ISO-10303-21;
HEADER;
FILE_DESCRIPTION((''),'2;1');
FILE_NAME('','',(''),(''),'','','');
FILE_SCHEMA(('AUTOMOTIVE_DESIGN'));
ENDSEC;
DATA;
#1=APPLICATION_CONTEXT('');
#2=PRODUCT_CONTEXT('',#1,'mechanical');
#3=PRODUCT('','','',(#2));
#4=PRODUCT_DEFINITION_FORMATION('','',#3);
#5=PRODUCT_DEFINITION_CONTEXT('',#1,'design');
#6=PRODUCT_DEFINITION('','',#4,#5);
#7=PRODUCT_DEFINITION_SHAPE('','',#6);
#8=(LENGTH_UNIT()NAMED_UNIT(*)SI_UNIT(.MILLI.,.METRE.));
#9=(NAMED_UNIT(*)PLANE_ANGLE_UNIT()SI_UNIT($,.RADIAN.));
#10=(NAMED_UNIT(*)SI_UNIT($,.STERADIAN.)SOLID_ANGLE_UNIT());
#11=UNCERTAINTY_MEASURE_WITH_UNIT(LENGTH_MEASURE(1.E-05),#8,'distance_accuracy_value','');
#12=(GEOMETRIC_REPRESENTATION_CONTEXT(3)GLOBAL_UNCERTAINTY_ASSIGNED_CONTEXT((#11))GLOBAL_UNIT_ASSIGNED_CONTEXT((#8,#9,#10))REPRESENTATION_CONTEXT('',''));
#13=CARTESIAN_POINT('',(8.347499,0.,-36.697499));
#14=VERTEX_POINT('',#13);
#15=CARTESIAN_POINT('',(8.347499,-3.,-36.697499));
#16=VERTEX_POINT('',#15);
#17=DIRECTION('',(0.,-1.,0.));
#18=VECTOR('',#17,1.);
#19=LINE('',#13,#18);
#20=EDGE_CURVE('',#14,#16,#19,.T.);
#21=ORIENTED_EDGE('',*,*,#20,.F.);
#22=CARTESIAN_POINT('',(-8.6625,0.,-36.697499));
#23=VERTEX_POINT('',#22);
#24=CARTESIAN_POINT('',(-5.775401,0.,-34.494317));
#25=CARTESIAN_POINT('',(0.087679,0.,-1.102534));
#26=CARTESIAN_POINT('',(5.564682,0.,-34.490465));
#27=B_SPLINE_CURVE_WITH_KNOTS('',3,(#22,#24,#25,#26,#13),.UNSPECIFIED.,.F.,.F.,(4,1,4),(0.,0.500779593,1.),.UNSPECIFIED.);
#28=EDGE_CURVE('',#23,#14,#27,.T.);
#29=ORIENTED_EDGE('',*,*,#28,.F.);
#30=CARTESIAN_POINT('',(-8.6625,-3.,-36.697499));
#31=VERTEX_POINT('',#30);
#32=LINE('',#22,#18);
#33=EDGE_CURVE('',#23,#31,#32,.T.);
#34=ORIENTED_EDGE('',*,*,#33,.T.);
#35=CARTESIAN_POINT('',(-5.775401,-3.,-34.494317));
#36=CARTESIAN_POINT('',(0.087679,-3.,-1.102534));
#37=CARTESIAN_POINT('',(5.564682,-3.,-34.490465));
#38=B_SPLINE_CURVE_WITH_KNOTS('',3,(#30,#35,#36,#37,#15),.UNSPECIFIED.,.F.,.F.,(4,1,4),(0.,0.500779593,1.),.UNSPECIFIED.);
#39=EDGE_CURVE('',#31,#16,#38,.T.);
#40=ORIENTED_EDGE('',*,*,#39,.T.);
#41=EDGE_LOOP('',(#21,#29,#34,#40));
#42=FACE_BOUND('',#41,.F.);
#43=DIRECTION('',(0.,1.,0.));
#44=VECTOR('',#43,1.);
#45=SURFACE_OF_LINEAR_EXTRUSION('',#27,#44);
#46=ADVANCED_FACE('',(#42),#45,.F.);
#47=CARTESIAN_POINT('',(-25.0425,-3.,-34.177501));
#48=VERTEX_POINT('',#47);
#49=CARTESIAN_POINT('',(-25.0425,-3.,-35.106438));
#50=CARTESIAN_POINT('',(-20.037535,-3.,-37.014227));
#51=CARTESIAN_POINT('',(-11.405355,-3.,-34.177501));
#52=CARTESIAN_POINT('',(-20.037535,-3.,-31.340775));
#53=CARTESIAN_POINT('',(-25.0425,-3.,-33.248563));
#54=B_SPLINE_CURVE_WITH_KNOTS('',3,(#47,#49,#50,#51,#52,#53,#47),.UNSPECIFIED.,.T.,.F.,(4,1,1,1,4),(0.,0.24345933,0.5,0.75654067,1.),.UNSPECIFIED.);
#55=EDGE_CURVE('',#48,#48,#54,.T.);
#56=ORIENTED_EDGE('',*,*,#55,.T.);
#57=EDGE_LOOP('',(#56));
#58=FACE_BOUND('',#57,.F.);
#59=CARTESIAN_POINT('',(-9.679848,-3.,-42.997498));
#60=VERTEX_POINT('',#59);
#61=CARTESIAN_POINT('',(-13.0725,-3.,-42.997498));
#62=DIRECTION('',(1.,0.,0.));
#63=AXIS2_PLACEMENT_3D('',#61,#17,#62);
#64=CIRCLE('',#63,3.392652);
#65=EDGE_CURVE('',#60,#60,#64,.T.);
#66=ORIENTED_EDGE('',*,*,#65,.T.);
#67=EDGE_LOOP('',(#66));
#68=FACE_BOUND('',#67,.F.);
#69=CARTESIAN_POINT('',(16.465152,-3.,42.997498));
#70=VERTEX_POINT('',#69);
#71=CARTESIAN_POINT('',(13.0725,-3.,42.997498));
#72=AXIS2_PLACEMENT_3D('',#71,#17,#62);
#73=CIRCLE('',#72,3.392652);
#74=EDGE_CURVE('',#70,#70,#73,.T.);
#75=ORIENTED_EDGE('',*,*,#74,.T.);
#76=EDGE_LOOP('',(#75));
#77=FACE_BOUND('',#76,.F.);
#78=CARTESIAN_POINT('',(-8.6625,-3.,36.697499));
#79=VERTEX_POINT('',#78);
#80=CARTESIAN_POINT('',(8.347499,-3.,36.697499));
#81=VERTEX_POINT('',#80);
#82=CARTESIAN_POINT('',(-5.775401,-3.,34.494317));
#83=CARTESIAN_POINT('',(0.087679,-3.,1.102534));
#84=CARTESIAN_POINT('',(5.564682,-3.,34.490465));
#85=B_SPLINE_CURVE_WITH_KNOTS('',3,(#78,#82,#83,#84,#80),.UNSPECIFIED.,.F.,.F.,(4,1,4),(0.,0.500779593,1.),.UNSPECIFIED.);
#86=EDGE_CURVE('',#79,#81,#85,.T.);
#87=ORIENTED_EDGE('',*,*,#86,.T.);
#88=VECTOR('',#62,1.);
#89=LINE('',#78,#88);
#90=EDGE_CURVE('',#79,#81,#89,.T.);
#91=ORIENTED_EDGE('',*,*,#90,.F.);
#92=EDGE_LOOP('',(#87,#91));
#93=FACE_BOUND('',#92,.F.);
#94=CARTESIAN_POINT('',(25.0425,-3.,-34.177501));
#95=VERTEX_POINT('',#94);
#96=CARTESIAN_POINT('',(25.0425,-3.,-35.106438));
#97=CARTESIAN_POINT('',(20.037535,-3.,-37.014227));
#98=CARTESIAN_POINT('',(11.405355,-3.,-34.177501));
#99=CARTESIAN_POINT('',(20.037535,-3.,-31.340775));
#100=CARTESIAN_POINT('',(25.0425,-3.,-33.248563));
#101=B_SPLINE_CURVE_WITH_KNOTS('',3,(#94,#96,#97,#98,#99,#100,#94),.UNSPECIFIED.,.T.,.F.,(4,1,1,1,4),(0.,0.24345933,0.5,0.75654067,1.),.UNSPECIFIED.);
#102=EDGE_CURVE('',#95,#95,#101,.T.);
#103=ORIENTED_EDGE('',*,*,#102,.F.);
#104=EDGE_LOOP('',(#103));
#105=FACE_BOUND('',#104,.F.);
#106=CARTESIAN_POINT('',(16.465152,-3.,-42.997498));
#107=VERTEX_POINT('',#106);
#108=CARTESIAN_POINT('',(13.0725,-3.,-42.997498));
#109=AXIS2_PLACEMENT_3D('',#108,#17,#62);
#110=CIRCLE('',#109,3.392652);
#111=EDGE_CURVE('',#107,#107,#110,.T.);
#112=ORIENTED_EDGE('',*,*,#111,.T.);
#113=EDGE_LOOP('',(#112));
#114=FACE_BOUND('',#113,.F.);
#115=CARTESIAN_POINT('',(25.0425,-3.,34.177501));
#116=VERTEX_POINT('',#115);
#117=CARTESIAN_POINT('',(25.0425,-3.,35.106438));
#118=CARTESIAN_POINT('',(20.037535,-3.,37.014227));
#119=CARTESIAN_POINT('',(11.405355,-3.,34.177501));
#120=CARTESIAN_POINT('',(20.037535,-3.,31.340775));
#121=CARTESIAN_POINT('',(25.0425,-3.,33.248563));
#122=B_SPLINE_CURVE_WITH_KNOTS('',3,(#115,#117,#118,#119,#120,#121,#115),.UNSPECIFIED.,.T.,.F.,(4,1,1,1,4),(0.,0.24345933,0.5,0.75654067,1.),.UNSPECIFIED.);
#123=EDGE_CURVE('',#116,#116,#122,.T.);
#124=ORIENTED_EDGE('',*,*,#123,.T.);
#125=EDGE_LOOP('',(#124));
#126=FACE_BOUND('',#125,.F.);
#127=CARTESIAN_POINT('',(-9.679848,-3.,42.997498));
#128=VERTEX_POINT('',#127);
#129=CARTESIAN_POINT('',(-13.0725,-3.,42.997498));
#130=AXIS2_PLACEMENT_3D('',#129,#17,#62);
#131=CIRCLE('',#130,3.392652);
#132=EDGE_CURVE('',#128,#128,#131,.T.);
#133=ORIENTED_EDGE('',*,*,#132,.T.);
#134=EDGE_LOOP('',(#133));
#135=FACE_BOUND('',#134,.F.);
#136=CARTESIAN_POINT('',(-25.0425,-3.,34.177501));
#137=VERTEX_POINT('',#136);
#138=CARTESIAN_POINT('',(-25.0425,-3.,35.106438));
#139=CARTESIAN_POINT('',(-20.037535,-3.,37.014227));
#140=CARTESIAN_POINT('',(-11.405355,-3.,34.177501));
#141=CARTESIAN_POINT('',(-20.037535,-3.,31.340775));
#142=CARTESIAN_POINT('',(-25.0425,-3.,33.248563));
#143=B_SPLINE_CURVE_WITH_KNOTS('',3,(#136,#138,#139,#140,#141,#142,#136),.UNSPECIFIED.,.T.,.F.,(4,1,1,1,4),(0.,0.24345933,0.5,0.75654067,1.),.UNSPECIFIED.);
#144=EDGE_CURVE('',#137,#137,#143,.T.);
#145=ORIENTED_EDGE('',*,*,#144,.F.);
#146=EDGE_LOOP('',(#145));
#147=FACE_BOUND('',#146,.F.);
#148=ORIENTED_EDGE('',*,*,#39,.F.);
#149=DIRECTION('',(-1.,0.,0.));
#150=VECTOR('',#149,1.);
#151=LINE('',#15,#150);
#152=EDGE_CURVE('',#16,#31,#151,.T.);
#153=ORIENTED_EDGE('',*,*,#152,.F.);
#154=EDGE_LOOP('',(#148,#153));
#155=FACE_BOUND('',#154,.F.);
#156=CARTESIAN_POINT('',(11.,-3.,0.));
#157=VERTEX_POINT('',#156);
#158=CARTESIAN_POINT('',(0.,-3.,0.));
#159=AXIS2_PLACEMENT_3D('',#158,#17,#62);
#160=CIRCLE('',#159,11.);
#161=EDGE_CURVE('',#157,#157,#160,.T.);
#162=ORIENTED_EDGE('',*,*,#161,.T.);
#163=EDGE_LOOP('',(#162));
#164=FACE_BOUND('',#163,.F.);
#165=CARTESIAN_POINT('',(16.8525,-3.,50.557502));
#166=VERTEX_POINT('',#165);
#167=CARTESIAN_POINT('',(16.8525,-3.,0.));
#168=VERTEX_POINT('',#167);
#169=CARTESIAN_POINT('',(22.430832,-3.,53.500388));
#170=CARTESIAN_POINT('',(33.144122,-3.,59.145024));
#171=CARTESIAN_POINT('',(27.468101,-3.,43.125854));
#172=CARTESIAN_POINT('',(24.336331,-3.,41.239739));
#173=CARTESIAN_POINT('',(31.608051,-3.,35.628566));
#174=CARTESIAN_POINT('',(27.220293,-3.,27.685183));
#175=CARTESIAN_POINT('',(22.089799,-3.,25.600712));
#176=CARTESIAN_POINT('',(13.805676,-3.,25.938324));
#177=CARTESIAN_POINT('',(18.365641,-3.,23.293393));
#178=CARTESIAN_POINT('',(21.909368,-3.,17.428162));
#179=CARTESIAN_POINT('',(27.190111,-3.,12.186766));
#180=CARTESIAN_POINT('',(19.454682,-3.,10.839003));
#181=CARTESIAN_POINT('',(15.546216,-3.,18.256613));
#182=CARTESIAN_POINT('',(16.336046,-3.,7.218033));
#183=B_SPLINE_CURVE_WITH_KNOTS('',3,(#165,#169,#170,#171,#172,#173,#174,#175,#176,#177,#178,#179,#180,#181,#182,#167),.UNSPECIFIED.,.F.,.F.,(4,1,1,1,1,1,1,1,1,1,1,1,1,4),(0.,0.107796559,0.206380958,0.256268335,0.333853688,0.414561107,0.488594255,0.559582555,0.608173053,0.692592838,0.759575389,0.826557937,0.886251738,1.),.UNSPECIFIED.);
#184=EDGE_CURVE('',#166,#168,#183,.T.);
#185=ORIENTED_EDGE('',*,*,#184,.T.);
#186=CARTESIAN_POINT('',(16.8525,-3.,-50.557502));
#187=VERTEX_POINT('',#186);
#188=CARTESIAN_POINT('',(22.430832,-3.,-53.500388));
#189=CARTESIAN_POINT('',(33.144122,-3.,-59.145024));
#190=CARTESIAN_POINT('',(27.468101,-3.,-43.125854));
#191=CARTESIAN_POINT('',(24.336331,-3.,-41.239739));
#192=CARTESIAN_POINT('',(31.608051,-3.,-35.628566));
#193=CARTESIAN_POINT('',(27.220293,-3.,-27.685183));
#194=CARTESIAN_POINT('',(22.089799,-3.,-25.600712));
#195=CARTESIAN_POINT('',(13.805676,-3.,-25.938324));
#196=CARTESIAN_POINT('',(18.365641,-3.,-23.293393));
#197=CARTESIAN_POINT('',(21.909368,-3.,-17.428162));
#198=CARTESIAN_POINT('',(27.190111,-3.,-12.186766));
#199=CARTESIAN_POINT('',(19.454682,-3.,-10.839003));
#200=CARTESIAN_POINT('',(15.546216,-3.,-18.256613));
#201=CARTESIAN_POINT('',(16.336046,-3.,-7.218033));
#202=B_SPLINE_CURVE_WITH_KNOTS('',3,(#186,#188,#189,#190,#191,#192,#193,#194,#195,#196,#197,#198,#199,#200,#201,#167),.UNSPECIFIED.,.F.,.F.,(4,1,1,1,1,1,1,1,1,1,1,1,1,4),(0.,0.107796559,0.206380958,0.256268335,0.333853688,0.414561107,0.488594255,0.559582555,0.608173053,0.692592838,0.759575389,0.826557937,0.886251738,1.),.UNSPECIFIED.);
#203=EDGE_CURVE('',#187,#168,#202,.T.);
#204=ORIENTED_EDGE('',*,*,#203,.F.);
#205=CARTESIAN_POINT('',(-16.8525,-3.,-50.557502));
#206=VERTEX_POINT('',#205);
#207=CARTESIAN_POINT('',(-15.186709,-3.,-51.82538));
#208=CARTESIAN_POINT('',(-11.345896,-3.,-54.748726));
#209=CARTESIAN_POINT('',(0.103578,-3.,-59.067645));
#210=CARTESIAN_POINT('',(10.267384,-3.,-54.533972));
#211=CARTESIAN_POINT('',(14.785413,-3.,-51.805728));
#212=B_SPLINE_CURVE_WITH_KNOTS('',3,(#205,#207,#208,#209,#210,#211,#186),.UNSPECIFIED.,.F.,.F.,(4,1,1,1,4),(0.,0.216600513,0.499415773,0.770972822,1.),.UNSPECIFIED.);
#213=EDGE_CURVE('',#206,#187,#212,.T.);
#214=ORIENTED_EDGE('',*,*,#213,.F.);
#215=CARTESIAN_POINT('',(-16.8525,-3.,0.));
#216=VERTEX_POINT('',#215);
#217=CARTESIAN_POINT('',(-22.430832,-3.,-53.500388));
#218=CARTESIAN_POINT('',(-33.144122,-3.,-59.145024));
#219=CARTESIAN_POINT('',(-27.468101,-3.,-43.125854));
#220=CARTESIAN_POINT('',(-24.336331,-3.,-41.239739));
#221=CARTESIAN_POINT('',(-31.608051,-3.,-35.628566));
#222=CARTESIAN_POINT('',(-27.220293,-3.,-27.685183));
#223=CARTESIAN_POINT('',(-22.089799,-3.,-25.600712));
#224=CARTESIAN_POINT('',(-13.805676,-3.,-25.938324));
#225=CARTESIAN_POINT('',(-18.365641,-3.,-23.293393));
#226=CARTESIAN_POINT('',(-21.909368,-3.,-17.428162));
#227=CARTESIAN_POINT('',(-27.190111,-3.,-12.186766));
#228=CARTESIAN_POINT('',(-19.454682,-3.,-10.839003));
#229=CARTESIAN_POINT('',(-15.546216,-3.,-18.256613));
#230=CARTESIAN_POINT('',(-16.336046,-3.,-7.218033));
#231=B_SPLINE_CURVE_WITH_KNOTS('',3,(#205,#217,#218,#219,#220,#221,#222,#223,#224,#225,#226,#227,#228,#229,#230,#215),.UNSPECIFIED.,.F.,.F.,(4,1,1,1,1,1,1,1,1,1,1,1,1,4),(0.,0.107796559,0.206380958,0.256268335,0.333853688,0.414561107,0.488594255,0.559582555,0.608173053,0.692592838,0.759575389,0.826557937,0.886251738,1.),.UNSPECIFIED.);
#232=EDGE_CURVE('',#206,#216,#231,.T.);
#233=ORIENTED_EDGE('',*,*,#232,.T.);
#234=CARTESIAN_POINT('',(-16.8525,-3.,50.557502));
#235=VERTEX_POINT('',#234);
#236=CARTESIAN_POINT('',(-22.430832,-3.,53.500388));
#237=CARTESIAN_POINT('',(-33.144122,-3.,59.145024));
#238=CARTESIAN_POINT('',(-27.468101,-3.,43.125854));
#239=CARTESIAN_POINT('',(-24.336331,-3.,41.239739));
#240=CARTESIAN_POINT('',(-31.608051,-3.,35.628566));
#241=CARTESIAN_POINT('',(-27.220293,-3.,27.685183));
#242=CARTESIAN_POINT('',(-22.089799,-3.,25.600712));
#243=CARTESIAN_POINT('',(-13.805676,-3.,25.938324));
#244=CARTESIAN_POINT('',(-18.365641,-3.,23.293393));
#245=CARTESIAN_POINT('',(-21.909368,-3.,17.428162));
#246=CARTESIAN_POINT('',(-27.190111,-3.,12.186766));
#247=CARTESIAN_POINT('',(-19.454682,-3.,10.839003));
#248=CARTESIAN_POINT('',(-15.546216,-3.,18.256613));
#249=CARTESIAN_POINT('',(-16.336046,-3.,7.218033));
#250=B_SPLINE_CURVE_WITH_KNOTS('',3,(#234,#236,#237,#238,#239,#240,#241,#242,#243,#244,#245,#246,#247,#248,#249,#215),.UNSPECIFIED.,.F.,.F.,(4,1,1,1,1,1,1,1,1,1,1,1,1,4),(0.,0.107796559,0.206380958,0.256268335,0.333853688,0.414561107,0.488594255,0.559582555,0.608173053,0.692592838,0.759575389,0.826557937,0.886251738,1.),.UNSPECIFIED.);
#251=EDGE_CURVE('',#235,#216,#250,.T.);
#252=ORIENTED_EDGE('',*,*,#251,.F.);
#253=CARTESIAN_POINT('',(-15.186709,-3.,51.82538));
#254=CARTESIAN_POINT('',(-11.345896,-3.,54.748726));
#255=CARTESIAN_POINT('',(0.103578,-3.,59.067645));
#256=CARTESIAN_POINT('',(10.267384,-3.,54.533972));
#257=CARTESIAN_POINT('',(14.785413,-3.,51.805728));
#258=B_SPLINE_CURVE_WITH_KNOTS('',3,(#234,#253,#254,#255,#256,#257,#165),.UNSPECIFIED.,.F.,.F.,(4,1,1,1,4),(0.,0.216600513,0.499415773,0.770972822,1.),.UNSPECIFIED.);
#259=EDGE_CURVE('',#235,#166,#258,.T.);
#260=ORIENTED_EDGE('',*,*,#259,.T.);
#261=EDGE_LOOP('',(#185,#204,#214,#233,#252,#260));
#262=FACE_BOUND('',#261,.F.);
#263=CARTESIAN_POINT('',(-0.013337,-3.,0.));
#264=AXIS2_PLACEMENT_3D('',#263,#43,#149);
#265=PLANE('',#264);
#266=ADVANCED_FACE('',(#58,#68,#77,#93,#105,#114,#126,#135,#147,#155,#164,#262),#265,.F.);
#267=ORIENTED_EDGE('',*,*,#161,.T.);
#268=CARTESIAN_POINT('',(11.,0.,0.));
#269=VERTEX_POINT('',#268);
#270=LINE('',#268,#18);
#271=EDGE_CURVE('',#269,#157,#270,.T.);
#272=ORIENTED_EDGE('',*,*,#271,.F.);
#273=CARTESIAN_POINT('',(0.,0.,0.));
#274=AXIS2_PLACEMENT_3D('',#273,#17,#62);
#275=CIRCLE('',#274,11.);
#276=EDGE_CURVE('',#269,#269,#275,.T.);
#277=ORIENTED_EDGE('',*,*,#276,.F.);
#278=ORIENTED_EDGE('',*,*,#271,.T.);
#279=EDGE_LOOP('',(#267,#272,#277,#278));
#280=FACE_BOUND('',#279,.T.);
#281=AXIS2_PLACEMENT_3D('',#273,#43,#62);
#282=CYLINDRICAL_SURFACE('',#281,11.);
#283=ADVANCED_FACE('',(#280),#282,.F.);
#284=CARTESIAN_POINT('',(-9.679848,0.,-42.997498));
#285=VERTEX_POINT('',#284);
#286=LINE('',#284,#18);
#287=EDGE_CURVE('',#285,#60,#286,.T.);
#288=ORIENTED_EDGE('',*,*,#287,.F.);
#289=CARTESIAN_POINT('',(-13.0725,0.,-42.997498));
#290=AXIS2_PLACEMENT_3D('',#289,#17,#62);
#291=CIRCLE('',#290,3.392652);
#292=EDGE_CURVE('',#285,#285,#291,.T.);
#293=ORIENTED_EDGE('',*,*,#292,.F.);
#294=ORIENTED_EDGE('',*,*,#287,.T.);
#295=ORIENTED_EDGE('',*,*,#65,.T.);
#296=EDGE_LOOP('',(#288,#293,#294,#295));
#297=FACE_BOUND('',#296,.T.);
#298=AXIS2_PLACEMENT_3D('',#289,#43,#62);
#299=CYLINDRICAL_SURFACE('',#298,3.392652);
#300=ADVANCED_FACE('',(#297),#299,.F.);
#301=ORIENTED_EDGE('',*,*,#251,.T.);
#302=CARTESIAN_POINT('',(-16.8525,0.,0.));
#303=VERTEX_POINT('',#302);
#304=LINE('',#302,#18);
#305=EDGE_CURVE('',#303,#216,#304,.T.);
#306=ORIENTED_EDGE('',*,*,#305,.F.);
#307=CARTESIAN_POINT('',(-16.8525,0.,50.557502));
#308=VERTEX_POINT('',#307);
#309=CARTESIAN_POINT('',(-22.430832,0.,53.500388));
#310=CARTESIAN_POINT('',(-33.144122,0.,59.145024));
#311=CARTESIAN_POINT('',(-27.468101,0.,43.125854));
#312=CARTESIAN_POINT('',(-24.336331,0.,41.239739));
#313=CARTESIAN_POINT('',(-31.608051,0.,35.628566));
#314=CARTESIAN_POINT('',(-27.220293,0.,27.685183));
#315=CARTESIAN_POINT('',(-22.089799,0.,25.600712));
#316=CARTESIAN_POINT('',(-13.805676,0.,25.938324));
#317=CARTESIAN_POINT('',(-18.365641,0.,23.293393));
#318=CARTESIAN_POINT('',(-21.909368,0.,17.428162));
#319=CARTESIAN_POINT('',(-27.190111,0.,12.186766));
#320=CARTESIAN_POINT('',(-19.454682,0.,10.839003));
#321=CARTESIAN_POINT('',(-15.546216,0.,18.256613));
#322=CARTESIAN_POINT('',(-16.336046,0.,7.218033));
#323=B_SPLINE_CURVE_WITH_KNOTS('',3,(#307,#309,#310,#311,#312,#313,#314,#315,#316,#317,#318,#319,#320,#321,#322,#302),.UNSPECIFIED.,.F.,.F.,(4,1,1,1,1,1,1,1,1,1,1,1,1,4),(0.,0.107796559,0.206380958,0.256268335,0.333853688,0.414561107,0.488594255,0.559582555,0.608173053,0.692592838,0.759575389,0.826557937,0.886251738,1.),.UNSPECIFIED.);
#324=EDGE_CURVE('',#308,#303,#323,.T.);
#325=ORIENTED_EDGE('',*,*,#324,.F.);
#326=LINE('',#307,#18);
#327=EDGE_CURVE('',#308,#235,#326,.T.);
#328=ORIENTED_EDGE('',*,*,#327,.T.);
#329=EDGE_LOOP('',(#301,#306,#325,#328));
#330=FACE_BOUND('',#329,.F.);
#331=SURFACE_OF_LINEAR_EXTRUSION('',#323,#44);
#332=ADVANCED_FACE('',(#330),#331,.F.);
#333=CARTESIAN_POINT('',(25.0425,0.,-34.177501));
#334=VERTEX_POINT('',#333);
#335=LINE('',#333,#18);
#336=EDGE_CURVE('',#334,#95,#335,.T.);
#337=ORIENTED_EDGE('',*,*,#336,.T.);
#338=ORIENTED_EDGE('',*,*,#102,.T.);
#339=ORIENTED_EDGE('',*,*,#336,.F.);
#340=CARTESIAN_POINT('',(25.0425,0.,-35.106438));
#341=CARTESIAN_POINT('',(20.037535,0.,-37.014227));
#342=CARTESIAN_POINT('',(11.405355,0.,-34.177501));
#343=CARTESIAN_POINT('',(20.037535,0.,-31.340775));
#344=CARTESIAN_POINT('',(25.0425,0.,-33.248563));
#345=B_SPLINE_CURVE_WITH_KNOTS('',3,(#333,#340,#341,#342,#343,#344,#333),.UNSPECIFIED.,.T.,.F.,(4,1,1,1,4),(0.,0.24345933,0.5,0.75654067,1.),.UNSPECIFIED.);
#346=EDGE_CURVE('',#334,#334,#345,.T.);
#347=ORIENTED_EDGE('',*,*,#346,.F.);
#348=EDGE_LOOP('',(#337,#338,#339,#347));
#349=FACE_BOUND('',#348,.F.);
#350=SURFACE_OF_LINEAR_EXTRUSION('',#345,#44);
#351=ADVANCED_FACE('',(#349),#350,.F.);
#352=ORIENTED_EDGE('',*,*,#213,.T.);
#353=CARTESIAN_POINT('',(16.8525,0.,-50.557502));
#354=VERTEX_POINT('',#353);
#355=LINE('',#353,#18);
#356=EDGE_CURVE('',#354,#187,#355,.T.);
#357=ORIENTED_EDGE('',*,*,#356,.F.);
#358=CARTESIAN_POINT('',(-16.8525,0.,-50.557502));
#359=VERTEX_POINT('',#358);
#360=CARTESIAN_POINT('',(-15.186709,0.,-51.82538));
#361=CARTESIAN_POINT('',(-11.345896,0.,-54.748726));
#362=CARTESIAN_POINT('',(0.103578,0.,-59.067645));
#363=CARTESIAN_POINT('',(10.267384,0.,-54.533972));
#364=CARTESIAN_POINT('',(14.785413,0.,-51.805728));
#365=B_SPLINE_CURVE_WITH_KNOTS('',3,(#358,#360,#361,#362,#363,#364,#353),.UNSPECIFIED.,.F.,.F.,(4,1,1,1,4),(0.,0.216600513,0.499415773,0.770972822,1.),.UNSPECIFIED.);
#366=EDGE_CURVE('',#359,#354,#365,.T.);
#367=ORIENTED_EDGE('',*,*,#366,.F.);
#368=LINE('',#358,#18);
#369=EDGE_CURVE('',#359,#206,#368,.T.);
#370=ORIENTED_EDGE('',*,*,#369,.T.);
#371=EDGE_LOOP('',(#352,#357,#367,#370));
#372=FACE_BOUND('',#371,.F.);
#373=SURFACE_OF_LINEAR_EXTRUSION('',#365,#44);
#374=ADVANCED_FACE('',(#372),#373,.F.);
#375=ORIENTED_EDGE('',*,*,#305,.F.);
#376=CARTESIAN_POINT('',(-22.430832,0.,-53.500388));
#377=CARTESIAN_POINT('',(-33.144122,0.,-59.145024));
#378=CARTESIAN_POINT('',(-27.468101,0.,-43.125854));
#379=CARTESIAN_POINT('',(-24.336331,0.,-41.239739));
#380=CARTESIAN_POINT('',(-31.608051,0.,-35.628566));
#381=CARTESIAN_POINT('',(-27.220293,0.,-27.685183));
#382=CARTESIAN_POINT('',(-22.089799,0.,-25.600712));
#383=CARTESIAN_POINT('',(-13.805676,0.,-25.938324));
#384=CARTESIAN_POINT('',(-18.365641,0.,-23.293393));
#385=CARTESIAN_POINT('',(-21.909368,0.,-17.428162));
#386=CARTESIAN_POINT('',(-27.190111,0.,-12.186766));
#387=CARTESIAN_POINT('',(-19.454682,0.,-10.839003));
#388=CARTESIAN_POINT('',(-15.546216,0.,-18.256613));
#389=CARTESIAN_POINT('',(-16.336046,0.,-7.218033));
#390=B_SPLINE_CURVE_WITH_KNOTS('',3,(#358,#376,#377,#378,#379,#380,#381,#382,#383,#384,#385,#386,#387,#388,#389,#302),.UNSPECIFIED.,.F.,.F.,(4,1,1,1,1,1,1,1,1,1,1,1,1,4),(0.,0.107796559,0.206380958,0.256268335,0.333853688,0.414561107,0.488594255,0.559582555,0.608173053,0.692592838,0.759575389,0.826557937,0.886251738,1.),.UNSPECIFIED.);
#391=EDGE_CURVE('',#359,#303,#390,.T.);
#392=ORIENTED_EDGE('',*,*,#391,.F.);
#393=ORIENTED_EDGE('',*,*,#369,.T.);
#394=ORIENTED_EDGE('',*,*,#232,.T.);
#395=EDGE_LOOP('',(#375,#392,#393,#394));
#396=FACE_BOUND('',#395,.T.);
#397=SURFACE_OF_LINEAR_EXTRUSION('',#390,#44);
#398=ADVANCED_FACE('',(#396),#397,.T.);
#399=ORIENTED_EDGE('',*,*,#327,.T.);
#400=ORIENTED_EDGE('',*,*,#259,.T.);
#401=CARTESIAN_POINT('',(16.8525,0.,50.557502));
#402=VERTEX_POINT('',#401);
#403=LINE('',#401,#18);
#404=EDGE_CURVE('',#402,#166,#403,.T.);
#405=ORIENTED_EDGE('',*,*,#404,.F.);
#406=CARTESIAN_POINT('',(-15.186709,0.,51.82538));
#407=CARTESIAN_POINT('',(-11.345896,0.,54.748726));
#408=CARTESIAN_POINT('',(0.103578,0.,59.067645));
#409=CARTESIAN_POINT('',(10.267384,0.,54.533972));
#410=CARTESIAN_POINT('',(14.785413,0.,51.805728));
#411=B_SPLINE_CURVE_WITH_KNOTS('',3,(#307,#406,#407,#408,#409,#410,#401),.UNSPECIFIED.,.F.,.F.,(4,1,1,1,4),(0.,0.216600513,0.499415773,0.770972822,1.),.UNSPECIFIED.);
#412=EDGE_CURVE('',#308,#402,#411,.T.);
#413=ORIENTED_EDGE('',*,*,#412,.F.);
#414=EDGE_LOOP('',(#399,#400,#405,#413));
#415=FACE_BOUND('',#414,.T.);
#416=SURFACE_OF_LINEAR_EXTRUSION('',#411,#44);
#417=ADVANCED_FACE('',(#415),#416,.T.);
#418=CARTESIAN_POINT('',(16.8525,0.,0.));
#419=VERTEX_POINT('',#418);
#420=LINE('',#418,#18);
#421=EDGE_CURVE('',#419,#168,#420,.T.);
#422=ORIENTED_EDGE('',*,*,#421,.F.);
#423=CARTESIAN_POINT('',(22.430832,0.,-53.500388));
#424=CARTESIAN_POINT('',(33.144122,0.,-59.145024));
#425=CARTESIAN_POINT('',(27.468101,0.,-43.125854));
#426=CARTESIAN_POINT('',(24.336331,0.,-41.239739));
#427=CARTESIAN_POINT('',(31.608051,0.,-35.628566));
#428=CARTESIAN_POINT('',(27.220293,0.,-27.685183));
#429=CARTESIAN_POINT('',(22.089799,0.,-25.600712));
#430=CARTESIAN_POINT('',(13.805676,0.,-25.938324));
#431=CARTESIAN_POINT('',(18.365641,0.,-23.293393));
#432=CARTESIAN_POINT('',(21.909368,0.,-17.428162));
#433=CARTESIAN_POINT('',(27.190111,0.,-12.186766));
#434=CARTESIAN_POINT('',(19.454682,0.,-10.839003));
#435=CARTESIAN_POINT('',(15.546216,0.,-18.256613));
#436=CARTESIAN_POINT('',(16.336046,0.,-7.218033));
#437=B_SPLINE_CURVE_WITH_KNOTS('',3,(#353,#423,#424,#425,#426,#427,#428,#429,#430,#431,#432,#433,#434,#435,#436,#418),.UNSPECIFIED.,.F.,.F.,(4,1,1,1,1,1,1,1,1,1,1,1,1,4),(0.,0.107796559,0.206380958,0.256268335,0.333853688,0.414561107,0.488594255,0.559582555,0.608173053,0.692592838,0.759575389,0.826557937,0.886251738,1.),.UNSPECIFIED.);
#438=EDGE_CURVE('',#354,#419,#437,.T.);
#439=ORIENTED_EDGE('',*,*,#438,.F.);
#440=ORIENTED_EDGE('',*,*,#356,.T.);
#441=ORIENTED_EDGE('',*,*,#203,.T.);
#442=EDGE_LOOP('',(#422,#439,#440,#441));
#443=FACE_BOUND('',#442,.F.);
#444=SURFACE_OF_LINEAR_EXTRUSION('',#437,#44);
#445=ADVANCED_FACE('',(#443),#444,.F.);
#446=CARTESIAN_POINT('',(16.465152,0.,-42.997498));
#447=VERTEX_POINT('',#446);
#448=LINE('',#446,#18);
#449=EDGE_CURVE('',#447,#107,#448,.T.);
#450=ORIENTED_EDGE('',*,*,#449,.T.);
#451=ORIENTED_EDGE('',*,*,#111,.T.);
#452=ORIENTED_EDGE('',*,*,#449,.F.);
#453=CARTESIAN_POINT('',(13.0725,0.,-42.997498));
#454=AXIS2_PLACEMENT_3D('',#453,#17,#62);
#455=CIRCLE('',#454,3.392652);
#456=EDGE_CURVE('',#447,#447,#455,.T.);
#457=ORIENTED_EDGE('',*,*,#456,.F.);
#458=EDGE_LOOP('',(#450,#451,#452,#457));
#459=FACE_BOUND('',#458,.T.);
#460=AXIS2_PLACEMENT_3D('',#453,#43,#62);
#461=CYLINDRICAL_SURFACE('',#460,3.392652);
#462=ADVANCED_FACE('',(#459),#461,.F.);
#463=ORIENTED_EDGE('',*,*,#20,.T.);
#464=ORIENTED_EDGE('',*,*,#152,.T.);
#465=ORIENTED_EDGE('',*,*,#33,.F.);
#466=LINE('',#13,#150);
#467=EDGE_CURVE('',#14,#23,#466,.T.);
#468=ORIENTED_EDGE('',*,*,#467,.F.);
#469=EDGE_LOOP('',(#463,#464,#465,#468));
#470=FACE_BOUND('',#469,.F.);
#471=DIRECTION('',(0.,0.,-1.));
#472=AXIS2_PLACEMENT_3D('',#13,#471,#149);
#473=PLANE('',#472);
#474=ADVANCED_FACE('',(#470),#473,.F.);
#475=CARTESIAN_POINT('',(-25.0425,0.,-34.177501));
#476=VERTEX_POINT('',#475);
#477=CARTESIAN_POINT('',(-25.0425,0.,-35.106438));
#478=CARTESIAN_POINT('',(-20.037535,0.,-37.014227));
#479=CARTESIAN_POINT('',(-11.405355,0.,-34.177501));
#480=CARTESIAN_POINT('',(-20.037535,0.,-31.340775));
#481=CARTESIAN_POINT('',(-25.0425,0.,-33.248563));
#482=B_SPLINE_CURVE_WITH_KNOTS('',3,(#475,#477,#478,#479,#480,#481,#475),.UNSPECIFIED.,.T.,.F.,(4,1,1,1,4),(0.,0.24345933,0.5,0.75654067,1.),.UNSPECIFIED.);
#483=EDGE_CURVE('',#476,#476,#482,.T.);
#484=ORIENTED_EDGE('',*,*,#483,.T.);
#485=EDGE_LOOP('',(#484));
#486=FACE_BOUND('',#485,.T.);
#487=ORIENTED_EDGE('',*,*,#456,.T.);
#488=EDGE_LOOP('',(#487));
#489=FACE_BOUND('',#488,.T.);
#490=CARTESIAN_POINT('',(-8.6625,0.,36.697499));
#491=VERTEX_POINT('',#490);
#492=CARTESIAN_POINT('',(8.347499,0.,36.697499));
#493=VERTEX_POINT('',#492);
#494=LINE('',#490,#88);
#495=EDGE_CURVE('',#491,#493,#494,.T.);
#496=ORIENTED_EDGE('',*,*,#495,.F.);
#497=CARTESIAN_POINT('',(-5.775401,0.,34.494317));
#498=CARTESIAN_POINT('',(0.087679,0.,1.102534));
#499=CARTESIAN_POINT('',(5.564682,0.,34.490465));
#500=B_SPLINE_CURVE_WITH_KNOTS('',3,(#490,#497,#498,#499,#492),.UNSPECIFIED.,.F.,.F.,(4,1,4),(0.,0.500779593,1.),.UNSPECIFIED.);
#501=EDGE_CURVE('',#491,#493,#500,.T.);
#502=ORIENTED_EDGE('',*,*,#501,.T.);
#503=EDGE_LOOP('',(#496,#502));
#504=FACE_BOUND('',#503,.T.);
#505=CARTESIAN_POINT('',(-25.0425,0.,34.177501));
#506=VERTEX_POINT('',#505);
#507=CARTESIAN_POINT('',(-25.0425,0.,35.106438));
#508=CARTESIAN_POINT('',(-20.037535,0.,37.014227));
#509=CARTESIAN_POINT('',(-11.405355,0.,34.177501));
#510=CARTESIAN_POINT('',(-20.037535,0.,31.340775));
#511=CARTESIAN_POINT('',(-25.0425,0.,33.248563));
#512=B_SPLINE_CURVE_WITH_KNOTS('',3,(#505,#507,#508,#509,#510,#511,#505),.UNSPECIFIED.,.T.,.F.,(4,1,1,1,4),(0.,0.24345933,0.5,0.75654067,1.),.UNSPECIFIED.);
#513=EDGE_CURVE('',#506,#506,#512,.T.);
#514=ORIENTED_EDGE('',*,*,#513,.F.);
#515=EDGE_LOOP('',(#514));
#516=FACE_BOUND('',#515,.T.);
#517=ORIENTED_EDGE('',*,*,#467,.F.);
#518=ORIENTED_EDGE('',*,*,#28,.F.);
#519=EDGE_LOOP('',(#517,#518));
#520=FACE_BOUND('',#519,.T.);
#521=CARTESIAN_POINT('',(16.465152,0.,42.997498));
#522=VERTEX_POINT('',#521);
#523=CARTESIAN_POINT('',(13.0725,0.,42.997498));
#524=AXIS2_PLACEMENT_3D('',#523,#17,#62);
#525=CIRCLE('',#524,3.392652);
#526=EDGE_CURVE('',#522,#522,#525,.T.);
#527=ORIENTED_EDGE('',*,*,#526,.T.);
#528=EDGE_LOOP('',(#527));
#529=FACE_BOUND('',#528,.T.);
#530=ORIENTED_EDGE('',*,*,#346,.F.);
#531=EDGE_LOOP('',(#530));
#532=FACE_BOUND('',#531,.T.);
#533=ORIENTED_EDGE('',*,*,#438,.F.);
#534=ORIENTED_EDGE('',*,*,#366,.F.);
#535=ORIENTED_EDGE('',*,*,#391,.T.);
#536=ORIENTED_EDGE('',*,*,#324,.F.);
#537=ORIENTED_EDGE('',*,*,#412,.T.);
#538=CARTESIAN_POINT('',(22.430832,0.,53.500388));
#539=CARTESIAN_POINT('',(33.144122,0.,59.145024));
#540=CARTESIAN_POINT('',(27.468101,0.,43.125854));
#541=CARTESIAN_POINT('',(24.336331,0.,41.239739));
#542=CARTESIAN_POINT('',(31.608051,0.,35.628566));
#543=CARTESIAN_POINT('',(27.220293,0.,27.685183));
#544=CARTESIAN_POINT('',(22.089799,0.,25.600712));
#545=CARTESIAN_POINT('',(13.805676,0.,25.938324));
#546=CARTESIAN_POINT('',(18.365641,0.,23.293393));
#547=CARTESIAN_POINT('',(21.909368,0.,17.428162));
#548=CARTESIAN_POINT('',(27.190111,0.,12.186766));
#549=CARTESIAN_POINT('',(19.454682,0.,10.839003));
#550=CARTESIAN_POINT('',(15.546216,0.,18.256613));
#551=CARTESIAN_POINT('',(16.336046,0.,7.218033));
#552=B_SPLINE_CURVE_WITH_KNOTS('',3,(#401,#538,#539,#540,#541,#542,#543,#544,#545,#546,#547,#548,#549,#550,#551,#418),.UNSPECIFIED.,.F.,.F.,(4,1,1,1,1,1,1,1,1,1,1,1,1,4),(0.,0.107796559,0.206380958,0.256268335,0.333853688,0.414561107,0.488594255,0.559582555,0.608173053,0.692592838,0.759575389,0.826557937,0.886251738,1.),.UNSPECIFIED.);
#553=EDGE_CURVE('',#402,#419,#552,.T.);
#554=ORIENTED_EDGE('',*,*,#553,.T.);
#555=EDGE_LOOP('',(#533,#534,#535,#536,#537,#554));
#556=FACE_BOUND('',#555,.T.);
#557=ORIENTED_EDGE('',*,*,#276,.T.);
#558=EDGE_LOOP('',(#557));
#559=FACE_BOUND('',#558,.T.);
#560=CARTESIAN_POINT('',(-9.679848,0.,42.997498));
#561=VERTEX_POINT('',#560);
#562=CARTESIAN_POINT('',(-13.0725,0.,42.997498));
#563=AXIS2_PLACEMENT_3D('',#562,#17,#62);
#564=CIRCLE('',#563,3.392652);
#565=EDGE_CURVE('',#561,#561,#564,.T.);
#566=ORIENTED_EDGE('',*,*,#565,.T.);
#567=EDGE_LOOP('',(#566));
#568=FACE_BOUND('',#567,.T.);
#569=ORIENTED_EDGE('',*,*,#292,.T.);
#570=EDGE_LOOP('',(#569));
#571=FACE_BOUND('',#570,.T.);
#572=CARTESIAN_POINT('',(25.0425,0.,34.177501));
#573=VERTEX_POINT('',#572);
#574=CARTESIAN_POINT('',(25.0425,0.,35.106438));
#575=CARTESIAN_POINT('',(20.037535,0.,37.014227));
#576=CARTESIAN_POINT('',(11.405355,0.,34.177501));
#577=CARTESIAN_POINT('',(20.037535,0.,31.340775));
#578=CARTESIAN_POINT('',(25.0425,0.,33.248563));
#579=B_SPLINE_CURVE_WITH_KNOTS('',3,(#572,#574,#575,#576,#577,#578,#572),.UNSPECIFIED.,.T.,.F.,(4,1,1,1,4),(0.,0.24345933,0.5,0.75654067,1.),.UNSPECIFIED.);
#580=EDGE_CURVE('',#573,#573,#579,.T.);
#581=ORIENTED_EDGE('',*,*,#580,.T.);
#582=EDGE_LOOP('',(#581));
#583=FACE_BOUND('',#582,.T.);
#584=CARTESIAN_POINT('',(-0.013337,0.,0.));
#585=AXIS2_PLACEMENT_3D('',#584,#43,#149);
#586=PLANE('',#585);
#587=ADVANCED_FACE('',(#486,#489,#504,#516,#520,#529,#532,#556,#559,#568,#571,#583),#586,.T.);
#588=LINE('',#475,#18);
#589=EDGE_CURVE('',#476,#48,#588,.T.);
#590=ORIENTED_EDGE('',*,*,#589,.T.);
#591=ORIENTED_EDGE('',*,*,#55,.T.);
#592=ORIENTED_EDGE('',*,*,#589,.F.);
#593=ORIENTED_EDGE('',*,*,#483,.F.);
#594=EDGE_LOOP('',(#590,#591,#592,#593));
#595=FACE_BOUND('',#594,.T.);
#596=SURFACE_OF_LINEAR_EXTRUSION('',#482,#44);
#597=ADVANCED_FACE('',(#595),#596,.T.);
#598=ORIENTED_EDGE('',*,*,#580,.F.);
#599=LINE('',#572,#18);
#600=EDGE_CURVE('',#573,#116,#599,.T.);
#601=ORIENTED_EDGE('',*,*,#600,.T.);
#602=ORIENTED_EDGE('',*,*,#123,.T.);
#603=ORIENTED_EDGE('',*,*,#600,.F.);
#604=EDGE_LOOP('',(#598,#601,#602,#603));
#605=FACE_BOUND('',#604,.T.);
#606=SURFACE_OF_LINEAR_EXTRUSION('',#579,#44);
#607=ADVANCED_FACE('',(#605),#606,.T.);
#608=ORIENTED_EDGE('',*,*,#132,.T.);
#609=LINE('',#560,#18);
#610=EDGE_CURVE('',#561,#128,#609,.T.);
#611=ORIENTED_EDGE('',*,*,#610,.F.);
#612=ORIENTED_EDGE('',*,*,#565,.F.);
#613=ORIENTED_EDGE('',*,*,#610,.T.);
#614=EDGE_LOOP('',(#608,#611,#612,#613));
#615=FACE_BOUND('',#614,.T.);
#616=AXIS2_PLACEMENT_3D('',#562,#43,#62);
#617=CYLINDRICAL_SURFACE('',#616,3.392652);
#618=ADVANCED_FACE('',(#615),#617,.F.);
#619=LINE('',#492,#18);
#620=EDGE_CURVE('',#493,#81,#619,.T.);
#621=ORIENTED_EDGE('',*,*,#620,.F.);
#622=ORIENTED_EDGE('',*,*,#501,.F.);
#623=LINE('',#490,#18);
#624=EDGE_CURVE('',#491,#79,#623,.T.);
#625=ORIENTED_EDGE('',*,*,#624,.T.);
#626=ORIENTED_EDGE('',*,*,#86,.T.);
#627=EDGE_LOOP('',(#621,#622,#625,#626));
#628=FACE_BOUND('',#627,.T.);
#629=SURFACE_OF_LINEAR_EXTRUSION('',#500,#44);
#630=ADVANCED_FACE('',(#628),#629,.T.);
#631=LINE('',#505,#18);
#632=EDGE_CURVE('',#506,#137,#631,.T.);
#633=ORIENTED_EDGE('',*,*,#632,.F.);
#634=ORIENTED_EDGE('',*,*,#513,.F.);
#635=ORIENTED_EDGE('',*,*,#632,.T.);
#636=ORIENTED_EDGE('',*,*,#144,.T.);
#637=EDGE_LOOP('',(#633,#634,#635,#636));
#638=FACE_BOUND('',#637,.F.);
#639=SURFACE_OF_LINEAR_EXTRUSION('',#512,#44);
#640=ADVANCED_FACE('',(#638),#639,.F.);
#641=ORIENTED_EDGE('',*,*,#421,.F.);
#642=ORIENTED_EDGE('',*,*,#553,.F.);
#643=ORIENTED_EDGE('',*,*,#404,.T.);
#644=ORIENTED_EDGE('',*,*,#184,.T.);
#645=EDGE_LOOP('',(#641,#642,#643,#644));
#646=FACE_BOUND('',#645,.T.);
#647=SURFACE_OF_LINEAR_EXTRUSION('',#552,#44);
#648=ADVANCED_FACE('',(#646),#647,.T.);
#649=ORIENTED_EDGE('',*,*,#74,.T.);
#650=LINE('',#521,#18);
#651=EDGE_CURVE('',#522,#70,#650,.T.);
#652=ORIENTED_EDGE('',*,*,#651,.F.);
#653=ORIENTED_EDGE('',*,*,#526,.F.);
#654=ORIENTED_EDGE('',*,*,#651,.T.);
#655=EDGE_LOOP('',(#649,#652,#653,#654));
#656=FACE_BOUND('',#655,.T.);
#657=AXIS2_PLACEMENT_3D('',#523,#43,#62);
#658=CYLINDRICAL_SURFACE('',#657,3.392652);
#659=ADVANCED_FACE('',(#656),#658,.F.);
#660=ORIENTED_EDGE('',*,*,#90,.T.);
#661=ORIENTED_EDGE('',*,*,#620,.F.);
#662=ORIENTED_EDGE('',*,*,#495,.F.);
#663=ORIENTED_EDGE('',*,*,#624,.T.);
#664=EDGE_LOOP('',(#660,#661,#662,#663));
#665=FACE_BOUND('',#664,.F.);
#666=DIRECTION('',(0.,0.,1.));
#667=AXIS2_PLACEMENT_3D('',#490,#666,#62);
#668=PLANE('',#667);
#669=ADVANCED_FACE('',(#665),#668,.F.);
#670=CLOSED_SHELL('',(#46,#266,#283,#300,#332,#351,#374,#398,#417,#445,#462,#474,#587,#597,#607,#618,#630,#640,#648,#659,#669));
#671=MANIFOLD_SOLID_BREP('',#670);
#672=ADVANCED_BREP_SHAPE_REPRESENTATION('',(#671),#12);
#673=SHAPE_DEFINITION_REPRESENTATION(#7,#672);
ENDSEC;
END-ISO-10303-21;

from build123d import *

# Parameters (mm, degrees)
F0_R     = 3.3926522505
F0_R_2   = 11
F1_DEPTH = 3


with BuildPart() as f1:
    # F0 (on Front) → F1 (new body)
    with BuildSketch(Plane.XZ):
        with BuildLine():
            add(Edge.make_bspline(
                [(-16.8524999171, 50.5575016141), (-15.1867091192, 51.8253796024), (-11.345895505, 54.748725706), (0.1035780727, 59.0676453041), (10.2673839566, 54.533972388), (14.7854125395, 51.8057275517), (16.8524999171, 50.5575016141)],
                knots=[0, 0, 0, 0, 0.216600513, 0.4994157731, 0.7709728219, 1, 1, 1, 1], degree=3))
            add(Edge.make_bspline(
                [(-16.8524999171, 50.5575016141), (-22.4308320184, 53.5003882597), (-33.1441223461, 59.145024226), (-27.4681013247, 43.1258537774), (-24.3363312578, 41.2397389064), (-31.6080514315, 35.6285661402), (-27.220292839, 27.6851827124), (-22.0897985261, 25.6007115313), (-13.8056761289, 25.9383244041), (-18.3656408271, 23.2933933771), (-21.909367547, 17.4281624231), (-27.1901107106, 12.1867662083), (-19.4546824507, 10.839003382), (-15.5462156132, 18.2566126558), (-16.3360457105, 7.2180331169), (-16.8524999171, 0)],
                knots=[0, 0, 0, 0, 0.1077965595, 0.206380958, 0.2562683347, 0.3338536878, 0.4145611067, 0.4885942549, 0.559582555, 0.6081730529, 0.6925928376, 0.7595753889, 0.8265579372, 0.8862517384, 1, 1, 1, 1], degree=3))
            add(Edge.make_bspline(
                [(-16.8524999171, -50.5575016141), (-22.4308320184, -53.5003882597), (-33.1441223461, -59.145024226), (-27.4681013247, -43.1258537774), (-24.3363312578, -41.2397389064), (-31.6080514315, -35.6285661402), (-27.220292839, -27.6851827124), (-22.0897985261, -25.6007115313), (-13.8056761289, -25.9383244041), (-18.3656408271, -23.2933933771), (-21.909367547, -17.4281624231), (-27.1901107106, -12.1867662083), (-19.4546824507, -10.839003382), (-15.5462156132, -18.2566126558), (-16.3360457105, -7.2180331169), (-16.8524999171, 0)],
                knots=[0, 0, 0, 0, 0.1077965595, 0.206380958, 0.2562683347, 0.3338536878, 0.4145611067, 0.4885942549, 0.559582555, 0.6081730529, 0.6925928376, 0.7595753889, 0.8265579372, 0.8862517384, 1, 1, 1, 1], degree=3))
            add(Edge.make_bspline(
                [(-16.8524999171, -50.5575016141), (-15.1867091192, -51.8253796024), (-11.345895505, -54.748725706), (0.1035780727, -59.0676453041), (10.2673839566, -54.533972388), (14.7854125395, -51.8057275517), (16.8524999171, -50.5575016141)],
                knots=[0, 0, 0, 0, 0.216600513, 0.4994157731, 0.7709728219, 1, 1, 1, 1], degree=3))
            add(Edge.make_bspline(
                [(16.8524999171, -50.5575016141), (22.4308320184, -53.5003882597), (33.1441223461, -59.145024226), (27.4681013247, -43.1258537774), (24.3363312578, -41.2397389064), (31.6080514315, -35.6285661402), (27.220292839, -27.6851827124), (22.0897985261, -25.6007115313), (13.8056761289, -25.9383244041), (18.3656408271, -23.2933933771), (21.909367547, -17.4281624231), (27.1901107106, -12.1867662083), (19.4546824507, -10.839003382), (15.5462156132, -18.2566126558), (16.3360457105, -7.2180331169), (16.8524999171, 0)],
                knots=[0, 0, 0, 0, 0.1077965595, 0.206380958, 0.2562683347, 0.3338536878, 0.4145611067, 0.4885942549, 0.559582555, 0.6081730529, 0.6925928376, 0.7595753889, 0.8265579372, 0.8862517384, 1, 1, 1, 1], degree=3))
            add(Edge.make_bspline(
                [(16.8524999171, 50.5575016141), (22.4308320184, 53.5003882597), (33.1441223461, 59.145024226), (27.4681013247, 43.1258537774), (24.3363312578, 41.2397389064), (31.6080514315, 35.6285661402), (27.220292839, 27.6851827124), (22.0897985261, 25.6007115313), (13.8056761289, 25.9383244041), (18.3656408271, 23.2933933771), (21.909367547, 17.4281624231), (27.1901107106, 12.1867662083), (19.4546824507, 10.839003382), (15.5462156132, 18.2566126558), (16.3360457105, 7.2180331169), (16.8524999171, 0)],
                knots=[0, 0, 0, 0, 0.1077965595, 0.206380958, 0.2562683347, 0.3338536878, 0.4145611067, 0.4885942549, 0.559582555, 0.6081730529, 0.6925928376, 0.7595753889, 0.8265579372, 0.8862517384, 1, 1, 1, 1], degree=3))
        make_face()
        with BuildLine():
            add(Edge.make_bspline(
                [(-25.0425003469, -34.1775007546), (-25.0425003469, -35.1064384768), (-20.0375349878, -37.014226774), (-11.4053548492, -34.1775007546), (-20.0375349878, -31.3407747352), (-25.0425003469, -33.2485630324), (-25.0425003469, -34.1775007546)],
                knots=[0, 0, 0, 0, 0.2434593303, 0.5, 0.7565406697, 1, 1, 1, 1], degree=3))
        make_face(mode=Mode.SUBTRACT)
        with Locations((-13.0725000054, -42.9974980652)):
            Circle(F0_R, mode=Mode.SUBTRACT)
        with BuildLine():
            Line((8.3474991843, -36.697499454), (-8.6625004187, -36.697499454))
            add(Edge.make_bspline(
                [(-8.6625004187, -36.697499454), (-5.7754009514, -34.494316675), (0.087678575, -1.1025335563), (5.5646821285, -34.4904654567), (8.3474991843, -36.697499454)],
                knots=[0, 0, 0, 0, 0.5007795933, 1, 1, 1, 1], degree=3))
        make_face(mode=Mode.SUBTRACT)
        with Locations((13.0725000054, -42.9974980652)):
            Circle(F0_R, mode=Mode.SUBTRACT)
        with BuildLine():
            add(Edge.make_bspline(
                [(25.0425003469, -34.1775007546), (25.0425003469, -35.1064384768), (20.0375349878, -37.014226774), (11.4053548492, -34.1775007546), (20.0375349878, -31.3407747352), (25.0425003469, -33.2485630324), (25.0425003469, -34.1775007546)],
                knots=[0, 0, 0, 0, 0.2434593303, 0.5, 0.7565406697, 1, 1, 1, 1], degree=3))
        make_face(mode=Mode.SUBTRACT)
        with BuildLine():
            add(Edge.make_bspline(
                [(-8.6625004187, 36.697499454), (-5.7754009514, 34.494316675), (0.087678575, 1.1025335563), (5.5646821285, 34.4904654567), (8.3474991843, 36.697499454)],
                knots=[0, 0, 0, 0, 0.5007795933, 1, 1, 1, 1], degree=3))
            Line((-8.6625004187, 36.697499454), (8.3474991843, 36.697499454))
        make_face(mode=Mode.SUBTRACT)
        with BuildLine():
            add(Edge.make_bspline(
                [(-25.0425003469, 34.1775007546), (-25.0425003469, 35.1064384768), (-20.0375349878, 37.014226774), (-11.4053548492, 34.1775007546), (-20.0375349878, 31.3407747352), (-25.0425003469, 33.2485630324), (-25.0425003469, 34.1775007546)],
                knots=[0, 0, 0, 0, 0.2434593303, 0.5, 0.7565406697, 1, 1, 1, 1], degree=3))
        make_face(mode=Mode.SUBTRACT)
        with Locations((-13.0725000054, 42.9974980652)):
            Circle(F0_R, mode=Mode.SUBTRACT)
        Circle(F0_R_2, mode=Mode.SUBTRACT)
        with Locations((13.0725000054, 42.9974980652)):
            Circle(F0_R, mode=Mode.SUBTRACT)
        with BuildLine():
            add(Edge.make_bspline(
                [(25.0425003469, 34.1775007546), (25.0425003469, 35.1064384768), (20.0375349878, 37.014226774), (11.4053548492, 34.1775007546), (20.0375349878, 31.3407747352), (25.0425003469, 33.2485630324), (25.0425003469, 34.1775007546)],
                knots=[0, 0, 0, 0, 0.2434593303, 0.5, 0.7565406697, 1, 1, 1, 1], degree=3))
        make_face(mode=Mode.SUBTRACT)
    extrude(amount=F1_DEPTH)


solid = f1.part
